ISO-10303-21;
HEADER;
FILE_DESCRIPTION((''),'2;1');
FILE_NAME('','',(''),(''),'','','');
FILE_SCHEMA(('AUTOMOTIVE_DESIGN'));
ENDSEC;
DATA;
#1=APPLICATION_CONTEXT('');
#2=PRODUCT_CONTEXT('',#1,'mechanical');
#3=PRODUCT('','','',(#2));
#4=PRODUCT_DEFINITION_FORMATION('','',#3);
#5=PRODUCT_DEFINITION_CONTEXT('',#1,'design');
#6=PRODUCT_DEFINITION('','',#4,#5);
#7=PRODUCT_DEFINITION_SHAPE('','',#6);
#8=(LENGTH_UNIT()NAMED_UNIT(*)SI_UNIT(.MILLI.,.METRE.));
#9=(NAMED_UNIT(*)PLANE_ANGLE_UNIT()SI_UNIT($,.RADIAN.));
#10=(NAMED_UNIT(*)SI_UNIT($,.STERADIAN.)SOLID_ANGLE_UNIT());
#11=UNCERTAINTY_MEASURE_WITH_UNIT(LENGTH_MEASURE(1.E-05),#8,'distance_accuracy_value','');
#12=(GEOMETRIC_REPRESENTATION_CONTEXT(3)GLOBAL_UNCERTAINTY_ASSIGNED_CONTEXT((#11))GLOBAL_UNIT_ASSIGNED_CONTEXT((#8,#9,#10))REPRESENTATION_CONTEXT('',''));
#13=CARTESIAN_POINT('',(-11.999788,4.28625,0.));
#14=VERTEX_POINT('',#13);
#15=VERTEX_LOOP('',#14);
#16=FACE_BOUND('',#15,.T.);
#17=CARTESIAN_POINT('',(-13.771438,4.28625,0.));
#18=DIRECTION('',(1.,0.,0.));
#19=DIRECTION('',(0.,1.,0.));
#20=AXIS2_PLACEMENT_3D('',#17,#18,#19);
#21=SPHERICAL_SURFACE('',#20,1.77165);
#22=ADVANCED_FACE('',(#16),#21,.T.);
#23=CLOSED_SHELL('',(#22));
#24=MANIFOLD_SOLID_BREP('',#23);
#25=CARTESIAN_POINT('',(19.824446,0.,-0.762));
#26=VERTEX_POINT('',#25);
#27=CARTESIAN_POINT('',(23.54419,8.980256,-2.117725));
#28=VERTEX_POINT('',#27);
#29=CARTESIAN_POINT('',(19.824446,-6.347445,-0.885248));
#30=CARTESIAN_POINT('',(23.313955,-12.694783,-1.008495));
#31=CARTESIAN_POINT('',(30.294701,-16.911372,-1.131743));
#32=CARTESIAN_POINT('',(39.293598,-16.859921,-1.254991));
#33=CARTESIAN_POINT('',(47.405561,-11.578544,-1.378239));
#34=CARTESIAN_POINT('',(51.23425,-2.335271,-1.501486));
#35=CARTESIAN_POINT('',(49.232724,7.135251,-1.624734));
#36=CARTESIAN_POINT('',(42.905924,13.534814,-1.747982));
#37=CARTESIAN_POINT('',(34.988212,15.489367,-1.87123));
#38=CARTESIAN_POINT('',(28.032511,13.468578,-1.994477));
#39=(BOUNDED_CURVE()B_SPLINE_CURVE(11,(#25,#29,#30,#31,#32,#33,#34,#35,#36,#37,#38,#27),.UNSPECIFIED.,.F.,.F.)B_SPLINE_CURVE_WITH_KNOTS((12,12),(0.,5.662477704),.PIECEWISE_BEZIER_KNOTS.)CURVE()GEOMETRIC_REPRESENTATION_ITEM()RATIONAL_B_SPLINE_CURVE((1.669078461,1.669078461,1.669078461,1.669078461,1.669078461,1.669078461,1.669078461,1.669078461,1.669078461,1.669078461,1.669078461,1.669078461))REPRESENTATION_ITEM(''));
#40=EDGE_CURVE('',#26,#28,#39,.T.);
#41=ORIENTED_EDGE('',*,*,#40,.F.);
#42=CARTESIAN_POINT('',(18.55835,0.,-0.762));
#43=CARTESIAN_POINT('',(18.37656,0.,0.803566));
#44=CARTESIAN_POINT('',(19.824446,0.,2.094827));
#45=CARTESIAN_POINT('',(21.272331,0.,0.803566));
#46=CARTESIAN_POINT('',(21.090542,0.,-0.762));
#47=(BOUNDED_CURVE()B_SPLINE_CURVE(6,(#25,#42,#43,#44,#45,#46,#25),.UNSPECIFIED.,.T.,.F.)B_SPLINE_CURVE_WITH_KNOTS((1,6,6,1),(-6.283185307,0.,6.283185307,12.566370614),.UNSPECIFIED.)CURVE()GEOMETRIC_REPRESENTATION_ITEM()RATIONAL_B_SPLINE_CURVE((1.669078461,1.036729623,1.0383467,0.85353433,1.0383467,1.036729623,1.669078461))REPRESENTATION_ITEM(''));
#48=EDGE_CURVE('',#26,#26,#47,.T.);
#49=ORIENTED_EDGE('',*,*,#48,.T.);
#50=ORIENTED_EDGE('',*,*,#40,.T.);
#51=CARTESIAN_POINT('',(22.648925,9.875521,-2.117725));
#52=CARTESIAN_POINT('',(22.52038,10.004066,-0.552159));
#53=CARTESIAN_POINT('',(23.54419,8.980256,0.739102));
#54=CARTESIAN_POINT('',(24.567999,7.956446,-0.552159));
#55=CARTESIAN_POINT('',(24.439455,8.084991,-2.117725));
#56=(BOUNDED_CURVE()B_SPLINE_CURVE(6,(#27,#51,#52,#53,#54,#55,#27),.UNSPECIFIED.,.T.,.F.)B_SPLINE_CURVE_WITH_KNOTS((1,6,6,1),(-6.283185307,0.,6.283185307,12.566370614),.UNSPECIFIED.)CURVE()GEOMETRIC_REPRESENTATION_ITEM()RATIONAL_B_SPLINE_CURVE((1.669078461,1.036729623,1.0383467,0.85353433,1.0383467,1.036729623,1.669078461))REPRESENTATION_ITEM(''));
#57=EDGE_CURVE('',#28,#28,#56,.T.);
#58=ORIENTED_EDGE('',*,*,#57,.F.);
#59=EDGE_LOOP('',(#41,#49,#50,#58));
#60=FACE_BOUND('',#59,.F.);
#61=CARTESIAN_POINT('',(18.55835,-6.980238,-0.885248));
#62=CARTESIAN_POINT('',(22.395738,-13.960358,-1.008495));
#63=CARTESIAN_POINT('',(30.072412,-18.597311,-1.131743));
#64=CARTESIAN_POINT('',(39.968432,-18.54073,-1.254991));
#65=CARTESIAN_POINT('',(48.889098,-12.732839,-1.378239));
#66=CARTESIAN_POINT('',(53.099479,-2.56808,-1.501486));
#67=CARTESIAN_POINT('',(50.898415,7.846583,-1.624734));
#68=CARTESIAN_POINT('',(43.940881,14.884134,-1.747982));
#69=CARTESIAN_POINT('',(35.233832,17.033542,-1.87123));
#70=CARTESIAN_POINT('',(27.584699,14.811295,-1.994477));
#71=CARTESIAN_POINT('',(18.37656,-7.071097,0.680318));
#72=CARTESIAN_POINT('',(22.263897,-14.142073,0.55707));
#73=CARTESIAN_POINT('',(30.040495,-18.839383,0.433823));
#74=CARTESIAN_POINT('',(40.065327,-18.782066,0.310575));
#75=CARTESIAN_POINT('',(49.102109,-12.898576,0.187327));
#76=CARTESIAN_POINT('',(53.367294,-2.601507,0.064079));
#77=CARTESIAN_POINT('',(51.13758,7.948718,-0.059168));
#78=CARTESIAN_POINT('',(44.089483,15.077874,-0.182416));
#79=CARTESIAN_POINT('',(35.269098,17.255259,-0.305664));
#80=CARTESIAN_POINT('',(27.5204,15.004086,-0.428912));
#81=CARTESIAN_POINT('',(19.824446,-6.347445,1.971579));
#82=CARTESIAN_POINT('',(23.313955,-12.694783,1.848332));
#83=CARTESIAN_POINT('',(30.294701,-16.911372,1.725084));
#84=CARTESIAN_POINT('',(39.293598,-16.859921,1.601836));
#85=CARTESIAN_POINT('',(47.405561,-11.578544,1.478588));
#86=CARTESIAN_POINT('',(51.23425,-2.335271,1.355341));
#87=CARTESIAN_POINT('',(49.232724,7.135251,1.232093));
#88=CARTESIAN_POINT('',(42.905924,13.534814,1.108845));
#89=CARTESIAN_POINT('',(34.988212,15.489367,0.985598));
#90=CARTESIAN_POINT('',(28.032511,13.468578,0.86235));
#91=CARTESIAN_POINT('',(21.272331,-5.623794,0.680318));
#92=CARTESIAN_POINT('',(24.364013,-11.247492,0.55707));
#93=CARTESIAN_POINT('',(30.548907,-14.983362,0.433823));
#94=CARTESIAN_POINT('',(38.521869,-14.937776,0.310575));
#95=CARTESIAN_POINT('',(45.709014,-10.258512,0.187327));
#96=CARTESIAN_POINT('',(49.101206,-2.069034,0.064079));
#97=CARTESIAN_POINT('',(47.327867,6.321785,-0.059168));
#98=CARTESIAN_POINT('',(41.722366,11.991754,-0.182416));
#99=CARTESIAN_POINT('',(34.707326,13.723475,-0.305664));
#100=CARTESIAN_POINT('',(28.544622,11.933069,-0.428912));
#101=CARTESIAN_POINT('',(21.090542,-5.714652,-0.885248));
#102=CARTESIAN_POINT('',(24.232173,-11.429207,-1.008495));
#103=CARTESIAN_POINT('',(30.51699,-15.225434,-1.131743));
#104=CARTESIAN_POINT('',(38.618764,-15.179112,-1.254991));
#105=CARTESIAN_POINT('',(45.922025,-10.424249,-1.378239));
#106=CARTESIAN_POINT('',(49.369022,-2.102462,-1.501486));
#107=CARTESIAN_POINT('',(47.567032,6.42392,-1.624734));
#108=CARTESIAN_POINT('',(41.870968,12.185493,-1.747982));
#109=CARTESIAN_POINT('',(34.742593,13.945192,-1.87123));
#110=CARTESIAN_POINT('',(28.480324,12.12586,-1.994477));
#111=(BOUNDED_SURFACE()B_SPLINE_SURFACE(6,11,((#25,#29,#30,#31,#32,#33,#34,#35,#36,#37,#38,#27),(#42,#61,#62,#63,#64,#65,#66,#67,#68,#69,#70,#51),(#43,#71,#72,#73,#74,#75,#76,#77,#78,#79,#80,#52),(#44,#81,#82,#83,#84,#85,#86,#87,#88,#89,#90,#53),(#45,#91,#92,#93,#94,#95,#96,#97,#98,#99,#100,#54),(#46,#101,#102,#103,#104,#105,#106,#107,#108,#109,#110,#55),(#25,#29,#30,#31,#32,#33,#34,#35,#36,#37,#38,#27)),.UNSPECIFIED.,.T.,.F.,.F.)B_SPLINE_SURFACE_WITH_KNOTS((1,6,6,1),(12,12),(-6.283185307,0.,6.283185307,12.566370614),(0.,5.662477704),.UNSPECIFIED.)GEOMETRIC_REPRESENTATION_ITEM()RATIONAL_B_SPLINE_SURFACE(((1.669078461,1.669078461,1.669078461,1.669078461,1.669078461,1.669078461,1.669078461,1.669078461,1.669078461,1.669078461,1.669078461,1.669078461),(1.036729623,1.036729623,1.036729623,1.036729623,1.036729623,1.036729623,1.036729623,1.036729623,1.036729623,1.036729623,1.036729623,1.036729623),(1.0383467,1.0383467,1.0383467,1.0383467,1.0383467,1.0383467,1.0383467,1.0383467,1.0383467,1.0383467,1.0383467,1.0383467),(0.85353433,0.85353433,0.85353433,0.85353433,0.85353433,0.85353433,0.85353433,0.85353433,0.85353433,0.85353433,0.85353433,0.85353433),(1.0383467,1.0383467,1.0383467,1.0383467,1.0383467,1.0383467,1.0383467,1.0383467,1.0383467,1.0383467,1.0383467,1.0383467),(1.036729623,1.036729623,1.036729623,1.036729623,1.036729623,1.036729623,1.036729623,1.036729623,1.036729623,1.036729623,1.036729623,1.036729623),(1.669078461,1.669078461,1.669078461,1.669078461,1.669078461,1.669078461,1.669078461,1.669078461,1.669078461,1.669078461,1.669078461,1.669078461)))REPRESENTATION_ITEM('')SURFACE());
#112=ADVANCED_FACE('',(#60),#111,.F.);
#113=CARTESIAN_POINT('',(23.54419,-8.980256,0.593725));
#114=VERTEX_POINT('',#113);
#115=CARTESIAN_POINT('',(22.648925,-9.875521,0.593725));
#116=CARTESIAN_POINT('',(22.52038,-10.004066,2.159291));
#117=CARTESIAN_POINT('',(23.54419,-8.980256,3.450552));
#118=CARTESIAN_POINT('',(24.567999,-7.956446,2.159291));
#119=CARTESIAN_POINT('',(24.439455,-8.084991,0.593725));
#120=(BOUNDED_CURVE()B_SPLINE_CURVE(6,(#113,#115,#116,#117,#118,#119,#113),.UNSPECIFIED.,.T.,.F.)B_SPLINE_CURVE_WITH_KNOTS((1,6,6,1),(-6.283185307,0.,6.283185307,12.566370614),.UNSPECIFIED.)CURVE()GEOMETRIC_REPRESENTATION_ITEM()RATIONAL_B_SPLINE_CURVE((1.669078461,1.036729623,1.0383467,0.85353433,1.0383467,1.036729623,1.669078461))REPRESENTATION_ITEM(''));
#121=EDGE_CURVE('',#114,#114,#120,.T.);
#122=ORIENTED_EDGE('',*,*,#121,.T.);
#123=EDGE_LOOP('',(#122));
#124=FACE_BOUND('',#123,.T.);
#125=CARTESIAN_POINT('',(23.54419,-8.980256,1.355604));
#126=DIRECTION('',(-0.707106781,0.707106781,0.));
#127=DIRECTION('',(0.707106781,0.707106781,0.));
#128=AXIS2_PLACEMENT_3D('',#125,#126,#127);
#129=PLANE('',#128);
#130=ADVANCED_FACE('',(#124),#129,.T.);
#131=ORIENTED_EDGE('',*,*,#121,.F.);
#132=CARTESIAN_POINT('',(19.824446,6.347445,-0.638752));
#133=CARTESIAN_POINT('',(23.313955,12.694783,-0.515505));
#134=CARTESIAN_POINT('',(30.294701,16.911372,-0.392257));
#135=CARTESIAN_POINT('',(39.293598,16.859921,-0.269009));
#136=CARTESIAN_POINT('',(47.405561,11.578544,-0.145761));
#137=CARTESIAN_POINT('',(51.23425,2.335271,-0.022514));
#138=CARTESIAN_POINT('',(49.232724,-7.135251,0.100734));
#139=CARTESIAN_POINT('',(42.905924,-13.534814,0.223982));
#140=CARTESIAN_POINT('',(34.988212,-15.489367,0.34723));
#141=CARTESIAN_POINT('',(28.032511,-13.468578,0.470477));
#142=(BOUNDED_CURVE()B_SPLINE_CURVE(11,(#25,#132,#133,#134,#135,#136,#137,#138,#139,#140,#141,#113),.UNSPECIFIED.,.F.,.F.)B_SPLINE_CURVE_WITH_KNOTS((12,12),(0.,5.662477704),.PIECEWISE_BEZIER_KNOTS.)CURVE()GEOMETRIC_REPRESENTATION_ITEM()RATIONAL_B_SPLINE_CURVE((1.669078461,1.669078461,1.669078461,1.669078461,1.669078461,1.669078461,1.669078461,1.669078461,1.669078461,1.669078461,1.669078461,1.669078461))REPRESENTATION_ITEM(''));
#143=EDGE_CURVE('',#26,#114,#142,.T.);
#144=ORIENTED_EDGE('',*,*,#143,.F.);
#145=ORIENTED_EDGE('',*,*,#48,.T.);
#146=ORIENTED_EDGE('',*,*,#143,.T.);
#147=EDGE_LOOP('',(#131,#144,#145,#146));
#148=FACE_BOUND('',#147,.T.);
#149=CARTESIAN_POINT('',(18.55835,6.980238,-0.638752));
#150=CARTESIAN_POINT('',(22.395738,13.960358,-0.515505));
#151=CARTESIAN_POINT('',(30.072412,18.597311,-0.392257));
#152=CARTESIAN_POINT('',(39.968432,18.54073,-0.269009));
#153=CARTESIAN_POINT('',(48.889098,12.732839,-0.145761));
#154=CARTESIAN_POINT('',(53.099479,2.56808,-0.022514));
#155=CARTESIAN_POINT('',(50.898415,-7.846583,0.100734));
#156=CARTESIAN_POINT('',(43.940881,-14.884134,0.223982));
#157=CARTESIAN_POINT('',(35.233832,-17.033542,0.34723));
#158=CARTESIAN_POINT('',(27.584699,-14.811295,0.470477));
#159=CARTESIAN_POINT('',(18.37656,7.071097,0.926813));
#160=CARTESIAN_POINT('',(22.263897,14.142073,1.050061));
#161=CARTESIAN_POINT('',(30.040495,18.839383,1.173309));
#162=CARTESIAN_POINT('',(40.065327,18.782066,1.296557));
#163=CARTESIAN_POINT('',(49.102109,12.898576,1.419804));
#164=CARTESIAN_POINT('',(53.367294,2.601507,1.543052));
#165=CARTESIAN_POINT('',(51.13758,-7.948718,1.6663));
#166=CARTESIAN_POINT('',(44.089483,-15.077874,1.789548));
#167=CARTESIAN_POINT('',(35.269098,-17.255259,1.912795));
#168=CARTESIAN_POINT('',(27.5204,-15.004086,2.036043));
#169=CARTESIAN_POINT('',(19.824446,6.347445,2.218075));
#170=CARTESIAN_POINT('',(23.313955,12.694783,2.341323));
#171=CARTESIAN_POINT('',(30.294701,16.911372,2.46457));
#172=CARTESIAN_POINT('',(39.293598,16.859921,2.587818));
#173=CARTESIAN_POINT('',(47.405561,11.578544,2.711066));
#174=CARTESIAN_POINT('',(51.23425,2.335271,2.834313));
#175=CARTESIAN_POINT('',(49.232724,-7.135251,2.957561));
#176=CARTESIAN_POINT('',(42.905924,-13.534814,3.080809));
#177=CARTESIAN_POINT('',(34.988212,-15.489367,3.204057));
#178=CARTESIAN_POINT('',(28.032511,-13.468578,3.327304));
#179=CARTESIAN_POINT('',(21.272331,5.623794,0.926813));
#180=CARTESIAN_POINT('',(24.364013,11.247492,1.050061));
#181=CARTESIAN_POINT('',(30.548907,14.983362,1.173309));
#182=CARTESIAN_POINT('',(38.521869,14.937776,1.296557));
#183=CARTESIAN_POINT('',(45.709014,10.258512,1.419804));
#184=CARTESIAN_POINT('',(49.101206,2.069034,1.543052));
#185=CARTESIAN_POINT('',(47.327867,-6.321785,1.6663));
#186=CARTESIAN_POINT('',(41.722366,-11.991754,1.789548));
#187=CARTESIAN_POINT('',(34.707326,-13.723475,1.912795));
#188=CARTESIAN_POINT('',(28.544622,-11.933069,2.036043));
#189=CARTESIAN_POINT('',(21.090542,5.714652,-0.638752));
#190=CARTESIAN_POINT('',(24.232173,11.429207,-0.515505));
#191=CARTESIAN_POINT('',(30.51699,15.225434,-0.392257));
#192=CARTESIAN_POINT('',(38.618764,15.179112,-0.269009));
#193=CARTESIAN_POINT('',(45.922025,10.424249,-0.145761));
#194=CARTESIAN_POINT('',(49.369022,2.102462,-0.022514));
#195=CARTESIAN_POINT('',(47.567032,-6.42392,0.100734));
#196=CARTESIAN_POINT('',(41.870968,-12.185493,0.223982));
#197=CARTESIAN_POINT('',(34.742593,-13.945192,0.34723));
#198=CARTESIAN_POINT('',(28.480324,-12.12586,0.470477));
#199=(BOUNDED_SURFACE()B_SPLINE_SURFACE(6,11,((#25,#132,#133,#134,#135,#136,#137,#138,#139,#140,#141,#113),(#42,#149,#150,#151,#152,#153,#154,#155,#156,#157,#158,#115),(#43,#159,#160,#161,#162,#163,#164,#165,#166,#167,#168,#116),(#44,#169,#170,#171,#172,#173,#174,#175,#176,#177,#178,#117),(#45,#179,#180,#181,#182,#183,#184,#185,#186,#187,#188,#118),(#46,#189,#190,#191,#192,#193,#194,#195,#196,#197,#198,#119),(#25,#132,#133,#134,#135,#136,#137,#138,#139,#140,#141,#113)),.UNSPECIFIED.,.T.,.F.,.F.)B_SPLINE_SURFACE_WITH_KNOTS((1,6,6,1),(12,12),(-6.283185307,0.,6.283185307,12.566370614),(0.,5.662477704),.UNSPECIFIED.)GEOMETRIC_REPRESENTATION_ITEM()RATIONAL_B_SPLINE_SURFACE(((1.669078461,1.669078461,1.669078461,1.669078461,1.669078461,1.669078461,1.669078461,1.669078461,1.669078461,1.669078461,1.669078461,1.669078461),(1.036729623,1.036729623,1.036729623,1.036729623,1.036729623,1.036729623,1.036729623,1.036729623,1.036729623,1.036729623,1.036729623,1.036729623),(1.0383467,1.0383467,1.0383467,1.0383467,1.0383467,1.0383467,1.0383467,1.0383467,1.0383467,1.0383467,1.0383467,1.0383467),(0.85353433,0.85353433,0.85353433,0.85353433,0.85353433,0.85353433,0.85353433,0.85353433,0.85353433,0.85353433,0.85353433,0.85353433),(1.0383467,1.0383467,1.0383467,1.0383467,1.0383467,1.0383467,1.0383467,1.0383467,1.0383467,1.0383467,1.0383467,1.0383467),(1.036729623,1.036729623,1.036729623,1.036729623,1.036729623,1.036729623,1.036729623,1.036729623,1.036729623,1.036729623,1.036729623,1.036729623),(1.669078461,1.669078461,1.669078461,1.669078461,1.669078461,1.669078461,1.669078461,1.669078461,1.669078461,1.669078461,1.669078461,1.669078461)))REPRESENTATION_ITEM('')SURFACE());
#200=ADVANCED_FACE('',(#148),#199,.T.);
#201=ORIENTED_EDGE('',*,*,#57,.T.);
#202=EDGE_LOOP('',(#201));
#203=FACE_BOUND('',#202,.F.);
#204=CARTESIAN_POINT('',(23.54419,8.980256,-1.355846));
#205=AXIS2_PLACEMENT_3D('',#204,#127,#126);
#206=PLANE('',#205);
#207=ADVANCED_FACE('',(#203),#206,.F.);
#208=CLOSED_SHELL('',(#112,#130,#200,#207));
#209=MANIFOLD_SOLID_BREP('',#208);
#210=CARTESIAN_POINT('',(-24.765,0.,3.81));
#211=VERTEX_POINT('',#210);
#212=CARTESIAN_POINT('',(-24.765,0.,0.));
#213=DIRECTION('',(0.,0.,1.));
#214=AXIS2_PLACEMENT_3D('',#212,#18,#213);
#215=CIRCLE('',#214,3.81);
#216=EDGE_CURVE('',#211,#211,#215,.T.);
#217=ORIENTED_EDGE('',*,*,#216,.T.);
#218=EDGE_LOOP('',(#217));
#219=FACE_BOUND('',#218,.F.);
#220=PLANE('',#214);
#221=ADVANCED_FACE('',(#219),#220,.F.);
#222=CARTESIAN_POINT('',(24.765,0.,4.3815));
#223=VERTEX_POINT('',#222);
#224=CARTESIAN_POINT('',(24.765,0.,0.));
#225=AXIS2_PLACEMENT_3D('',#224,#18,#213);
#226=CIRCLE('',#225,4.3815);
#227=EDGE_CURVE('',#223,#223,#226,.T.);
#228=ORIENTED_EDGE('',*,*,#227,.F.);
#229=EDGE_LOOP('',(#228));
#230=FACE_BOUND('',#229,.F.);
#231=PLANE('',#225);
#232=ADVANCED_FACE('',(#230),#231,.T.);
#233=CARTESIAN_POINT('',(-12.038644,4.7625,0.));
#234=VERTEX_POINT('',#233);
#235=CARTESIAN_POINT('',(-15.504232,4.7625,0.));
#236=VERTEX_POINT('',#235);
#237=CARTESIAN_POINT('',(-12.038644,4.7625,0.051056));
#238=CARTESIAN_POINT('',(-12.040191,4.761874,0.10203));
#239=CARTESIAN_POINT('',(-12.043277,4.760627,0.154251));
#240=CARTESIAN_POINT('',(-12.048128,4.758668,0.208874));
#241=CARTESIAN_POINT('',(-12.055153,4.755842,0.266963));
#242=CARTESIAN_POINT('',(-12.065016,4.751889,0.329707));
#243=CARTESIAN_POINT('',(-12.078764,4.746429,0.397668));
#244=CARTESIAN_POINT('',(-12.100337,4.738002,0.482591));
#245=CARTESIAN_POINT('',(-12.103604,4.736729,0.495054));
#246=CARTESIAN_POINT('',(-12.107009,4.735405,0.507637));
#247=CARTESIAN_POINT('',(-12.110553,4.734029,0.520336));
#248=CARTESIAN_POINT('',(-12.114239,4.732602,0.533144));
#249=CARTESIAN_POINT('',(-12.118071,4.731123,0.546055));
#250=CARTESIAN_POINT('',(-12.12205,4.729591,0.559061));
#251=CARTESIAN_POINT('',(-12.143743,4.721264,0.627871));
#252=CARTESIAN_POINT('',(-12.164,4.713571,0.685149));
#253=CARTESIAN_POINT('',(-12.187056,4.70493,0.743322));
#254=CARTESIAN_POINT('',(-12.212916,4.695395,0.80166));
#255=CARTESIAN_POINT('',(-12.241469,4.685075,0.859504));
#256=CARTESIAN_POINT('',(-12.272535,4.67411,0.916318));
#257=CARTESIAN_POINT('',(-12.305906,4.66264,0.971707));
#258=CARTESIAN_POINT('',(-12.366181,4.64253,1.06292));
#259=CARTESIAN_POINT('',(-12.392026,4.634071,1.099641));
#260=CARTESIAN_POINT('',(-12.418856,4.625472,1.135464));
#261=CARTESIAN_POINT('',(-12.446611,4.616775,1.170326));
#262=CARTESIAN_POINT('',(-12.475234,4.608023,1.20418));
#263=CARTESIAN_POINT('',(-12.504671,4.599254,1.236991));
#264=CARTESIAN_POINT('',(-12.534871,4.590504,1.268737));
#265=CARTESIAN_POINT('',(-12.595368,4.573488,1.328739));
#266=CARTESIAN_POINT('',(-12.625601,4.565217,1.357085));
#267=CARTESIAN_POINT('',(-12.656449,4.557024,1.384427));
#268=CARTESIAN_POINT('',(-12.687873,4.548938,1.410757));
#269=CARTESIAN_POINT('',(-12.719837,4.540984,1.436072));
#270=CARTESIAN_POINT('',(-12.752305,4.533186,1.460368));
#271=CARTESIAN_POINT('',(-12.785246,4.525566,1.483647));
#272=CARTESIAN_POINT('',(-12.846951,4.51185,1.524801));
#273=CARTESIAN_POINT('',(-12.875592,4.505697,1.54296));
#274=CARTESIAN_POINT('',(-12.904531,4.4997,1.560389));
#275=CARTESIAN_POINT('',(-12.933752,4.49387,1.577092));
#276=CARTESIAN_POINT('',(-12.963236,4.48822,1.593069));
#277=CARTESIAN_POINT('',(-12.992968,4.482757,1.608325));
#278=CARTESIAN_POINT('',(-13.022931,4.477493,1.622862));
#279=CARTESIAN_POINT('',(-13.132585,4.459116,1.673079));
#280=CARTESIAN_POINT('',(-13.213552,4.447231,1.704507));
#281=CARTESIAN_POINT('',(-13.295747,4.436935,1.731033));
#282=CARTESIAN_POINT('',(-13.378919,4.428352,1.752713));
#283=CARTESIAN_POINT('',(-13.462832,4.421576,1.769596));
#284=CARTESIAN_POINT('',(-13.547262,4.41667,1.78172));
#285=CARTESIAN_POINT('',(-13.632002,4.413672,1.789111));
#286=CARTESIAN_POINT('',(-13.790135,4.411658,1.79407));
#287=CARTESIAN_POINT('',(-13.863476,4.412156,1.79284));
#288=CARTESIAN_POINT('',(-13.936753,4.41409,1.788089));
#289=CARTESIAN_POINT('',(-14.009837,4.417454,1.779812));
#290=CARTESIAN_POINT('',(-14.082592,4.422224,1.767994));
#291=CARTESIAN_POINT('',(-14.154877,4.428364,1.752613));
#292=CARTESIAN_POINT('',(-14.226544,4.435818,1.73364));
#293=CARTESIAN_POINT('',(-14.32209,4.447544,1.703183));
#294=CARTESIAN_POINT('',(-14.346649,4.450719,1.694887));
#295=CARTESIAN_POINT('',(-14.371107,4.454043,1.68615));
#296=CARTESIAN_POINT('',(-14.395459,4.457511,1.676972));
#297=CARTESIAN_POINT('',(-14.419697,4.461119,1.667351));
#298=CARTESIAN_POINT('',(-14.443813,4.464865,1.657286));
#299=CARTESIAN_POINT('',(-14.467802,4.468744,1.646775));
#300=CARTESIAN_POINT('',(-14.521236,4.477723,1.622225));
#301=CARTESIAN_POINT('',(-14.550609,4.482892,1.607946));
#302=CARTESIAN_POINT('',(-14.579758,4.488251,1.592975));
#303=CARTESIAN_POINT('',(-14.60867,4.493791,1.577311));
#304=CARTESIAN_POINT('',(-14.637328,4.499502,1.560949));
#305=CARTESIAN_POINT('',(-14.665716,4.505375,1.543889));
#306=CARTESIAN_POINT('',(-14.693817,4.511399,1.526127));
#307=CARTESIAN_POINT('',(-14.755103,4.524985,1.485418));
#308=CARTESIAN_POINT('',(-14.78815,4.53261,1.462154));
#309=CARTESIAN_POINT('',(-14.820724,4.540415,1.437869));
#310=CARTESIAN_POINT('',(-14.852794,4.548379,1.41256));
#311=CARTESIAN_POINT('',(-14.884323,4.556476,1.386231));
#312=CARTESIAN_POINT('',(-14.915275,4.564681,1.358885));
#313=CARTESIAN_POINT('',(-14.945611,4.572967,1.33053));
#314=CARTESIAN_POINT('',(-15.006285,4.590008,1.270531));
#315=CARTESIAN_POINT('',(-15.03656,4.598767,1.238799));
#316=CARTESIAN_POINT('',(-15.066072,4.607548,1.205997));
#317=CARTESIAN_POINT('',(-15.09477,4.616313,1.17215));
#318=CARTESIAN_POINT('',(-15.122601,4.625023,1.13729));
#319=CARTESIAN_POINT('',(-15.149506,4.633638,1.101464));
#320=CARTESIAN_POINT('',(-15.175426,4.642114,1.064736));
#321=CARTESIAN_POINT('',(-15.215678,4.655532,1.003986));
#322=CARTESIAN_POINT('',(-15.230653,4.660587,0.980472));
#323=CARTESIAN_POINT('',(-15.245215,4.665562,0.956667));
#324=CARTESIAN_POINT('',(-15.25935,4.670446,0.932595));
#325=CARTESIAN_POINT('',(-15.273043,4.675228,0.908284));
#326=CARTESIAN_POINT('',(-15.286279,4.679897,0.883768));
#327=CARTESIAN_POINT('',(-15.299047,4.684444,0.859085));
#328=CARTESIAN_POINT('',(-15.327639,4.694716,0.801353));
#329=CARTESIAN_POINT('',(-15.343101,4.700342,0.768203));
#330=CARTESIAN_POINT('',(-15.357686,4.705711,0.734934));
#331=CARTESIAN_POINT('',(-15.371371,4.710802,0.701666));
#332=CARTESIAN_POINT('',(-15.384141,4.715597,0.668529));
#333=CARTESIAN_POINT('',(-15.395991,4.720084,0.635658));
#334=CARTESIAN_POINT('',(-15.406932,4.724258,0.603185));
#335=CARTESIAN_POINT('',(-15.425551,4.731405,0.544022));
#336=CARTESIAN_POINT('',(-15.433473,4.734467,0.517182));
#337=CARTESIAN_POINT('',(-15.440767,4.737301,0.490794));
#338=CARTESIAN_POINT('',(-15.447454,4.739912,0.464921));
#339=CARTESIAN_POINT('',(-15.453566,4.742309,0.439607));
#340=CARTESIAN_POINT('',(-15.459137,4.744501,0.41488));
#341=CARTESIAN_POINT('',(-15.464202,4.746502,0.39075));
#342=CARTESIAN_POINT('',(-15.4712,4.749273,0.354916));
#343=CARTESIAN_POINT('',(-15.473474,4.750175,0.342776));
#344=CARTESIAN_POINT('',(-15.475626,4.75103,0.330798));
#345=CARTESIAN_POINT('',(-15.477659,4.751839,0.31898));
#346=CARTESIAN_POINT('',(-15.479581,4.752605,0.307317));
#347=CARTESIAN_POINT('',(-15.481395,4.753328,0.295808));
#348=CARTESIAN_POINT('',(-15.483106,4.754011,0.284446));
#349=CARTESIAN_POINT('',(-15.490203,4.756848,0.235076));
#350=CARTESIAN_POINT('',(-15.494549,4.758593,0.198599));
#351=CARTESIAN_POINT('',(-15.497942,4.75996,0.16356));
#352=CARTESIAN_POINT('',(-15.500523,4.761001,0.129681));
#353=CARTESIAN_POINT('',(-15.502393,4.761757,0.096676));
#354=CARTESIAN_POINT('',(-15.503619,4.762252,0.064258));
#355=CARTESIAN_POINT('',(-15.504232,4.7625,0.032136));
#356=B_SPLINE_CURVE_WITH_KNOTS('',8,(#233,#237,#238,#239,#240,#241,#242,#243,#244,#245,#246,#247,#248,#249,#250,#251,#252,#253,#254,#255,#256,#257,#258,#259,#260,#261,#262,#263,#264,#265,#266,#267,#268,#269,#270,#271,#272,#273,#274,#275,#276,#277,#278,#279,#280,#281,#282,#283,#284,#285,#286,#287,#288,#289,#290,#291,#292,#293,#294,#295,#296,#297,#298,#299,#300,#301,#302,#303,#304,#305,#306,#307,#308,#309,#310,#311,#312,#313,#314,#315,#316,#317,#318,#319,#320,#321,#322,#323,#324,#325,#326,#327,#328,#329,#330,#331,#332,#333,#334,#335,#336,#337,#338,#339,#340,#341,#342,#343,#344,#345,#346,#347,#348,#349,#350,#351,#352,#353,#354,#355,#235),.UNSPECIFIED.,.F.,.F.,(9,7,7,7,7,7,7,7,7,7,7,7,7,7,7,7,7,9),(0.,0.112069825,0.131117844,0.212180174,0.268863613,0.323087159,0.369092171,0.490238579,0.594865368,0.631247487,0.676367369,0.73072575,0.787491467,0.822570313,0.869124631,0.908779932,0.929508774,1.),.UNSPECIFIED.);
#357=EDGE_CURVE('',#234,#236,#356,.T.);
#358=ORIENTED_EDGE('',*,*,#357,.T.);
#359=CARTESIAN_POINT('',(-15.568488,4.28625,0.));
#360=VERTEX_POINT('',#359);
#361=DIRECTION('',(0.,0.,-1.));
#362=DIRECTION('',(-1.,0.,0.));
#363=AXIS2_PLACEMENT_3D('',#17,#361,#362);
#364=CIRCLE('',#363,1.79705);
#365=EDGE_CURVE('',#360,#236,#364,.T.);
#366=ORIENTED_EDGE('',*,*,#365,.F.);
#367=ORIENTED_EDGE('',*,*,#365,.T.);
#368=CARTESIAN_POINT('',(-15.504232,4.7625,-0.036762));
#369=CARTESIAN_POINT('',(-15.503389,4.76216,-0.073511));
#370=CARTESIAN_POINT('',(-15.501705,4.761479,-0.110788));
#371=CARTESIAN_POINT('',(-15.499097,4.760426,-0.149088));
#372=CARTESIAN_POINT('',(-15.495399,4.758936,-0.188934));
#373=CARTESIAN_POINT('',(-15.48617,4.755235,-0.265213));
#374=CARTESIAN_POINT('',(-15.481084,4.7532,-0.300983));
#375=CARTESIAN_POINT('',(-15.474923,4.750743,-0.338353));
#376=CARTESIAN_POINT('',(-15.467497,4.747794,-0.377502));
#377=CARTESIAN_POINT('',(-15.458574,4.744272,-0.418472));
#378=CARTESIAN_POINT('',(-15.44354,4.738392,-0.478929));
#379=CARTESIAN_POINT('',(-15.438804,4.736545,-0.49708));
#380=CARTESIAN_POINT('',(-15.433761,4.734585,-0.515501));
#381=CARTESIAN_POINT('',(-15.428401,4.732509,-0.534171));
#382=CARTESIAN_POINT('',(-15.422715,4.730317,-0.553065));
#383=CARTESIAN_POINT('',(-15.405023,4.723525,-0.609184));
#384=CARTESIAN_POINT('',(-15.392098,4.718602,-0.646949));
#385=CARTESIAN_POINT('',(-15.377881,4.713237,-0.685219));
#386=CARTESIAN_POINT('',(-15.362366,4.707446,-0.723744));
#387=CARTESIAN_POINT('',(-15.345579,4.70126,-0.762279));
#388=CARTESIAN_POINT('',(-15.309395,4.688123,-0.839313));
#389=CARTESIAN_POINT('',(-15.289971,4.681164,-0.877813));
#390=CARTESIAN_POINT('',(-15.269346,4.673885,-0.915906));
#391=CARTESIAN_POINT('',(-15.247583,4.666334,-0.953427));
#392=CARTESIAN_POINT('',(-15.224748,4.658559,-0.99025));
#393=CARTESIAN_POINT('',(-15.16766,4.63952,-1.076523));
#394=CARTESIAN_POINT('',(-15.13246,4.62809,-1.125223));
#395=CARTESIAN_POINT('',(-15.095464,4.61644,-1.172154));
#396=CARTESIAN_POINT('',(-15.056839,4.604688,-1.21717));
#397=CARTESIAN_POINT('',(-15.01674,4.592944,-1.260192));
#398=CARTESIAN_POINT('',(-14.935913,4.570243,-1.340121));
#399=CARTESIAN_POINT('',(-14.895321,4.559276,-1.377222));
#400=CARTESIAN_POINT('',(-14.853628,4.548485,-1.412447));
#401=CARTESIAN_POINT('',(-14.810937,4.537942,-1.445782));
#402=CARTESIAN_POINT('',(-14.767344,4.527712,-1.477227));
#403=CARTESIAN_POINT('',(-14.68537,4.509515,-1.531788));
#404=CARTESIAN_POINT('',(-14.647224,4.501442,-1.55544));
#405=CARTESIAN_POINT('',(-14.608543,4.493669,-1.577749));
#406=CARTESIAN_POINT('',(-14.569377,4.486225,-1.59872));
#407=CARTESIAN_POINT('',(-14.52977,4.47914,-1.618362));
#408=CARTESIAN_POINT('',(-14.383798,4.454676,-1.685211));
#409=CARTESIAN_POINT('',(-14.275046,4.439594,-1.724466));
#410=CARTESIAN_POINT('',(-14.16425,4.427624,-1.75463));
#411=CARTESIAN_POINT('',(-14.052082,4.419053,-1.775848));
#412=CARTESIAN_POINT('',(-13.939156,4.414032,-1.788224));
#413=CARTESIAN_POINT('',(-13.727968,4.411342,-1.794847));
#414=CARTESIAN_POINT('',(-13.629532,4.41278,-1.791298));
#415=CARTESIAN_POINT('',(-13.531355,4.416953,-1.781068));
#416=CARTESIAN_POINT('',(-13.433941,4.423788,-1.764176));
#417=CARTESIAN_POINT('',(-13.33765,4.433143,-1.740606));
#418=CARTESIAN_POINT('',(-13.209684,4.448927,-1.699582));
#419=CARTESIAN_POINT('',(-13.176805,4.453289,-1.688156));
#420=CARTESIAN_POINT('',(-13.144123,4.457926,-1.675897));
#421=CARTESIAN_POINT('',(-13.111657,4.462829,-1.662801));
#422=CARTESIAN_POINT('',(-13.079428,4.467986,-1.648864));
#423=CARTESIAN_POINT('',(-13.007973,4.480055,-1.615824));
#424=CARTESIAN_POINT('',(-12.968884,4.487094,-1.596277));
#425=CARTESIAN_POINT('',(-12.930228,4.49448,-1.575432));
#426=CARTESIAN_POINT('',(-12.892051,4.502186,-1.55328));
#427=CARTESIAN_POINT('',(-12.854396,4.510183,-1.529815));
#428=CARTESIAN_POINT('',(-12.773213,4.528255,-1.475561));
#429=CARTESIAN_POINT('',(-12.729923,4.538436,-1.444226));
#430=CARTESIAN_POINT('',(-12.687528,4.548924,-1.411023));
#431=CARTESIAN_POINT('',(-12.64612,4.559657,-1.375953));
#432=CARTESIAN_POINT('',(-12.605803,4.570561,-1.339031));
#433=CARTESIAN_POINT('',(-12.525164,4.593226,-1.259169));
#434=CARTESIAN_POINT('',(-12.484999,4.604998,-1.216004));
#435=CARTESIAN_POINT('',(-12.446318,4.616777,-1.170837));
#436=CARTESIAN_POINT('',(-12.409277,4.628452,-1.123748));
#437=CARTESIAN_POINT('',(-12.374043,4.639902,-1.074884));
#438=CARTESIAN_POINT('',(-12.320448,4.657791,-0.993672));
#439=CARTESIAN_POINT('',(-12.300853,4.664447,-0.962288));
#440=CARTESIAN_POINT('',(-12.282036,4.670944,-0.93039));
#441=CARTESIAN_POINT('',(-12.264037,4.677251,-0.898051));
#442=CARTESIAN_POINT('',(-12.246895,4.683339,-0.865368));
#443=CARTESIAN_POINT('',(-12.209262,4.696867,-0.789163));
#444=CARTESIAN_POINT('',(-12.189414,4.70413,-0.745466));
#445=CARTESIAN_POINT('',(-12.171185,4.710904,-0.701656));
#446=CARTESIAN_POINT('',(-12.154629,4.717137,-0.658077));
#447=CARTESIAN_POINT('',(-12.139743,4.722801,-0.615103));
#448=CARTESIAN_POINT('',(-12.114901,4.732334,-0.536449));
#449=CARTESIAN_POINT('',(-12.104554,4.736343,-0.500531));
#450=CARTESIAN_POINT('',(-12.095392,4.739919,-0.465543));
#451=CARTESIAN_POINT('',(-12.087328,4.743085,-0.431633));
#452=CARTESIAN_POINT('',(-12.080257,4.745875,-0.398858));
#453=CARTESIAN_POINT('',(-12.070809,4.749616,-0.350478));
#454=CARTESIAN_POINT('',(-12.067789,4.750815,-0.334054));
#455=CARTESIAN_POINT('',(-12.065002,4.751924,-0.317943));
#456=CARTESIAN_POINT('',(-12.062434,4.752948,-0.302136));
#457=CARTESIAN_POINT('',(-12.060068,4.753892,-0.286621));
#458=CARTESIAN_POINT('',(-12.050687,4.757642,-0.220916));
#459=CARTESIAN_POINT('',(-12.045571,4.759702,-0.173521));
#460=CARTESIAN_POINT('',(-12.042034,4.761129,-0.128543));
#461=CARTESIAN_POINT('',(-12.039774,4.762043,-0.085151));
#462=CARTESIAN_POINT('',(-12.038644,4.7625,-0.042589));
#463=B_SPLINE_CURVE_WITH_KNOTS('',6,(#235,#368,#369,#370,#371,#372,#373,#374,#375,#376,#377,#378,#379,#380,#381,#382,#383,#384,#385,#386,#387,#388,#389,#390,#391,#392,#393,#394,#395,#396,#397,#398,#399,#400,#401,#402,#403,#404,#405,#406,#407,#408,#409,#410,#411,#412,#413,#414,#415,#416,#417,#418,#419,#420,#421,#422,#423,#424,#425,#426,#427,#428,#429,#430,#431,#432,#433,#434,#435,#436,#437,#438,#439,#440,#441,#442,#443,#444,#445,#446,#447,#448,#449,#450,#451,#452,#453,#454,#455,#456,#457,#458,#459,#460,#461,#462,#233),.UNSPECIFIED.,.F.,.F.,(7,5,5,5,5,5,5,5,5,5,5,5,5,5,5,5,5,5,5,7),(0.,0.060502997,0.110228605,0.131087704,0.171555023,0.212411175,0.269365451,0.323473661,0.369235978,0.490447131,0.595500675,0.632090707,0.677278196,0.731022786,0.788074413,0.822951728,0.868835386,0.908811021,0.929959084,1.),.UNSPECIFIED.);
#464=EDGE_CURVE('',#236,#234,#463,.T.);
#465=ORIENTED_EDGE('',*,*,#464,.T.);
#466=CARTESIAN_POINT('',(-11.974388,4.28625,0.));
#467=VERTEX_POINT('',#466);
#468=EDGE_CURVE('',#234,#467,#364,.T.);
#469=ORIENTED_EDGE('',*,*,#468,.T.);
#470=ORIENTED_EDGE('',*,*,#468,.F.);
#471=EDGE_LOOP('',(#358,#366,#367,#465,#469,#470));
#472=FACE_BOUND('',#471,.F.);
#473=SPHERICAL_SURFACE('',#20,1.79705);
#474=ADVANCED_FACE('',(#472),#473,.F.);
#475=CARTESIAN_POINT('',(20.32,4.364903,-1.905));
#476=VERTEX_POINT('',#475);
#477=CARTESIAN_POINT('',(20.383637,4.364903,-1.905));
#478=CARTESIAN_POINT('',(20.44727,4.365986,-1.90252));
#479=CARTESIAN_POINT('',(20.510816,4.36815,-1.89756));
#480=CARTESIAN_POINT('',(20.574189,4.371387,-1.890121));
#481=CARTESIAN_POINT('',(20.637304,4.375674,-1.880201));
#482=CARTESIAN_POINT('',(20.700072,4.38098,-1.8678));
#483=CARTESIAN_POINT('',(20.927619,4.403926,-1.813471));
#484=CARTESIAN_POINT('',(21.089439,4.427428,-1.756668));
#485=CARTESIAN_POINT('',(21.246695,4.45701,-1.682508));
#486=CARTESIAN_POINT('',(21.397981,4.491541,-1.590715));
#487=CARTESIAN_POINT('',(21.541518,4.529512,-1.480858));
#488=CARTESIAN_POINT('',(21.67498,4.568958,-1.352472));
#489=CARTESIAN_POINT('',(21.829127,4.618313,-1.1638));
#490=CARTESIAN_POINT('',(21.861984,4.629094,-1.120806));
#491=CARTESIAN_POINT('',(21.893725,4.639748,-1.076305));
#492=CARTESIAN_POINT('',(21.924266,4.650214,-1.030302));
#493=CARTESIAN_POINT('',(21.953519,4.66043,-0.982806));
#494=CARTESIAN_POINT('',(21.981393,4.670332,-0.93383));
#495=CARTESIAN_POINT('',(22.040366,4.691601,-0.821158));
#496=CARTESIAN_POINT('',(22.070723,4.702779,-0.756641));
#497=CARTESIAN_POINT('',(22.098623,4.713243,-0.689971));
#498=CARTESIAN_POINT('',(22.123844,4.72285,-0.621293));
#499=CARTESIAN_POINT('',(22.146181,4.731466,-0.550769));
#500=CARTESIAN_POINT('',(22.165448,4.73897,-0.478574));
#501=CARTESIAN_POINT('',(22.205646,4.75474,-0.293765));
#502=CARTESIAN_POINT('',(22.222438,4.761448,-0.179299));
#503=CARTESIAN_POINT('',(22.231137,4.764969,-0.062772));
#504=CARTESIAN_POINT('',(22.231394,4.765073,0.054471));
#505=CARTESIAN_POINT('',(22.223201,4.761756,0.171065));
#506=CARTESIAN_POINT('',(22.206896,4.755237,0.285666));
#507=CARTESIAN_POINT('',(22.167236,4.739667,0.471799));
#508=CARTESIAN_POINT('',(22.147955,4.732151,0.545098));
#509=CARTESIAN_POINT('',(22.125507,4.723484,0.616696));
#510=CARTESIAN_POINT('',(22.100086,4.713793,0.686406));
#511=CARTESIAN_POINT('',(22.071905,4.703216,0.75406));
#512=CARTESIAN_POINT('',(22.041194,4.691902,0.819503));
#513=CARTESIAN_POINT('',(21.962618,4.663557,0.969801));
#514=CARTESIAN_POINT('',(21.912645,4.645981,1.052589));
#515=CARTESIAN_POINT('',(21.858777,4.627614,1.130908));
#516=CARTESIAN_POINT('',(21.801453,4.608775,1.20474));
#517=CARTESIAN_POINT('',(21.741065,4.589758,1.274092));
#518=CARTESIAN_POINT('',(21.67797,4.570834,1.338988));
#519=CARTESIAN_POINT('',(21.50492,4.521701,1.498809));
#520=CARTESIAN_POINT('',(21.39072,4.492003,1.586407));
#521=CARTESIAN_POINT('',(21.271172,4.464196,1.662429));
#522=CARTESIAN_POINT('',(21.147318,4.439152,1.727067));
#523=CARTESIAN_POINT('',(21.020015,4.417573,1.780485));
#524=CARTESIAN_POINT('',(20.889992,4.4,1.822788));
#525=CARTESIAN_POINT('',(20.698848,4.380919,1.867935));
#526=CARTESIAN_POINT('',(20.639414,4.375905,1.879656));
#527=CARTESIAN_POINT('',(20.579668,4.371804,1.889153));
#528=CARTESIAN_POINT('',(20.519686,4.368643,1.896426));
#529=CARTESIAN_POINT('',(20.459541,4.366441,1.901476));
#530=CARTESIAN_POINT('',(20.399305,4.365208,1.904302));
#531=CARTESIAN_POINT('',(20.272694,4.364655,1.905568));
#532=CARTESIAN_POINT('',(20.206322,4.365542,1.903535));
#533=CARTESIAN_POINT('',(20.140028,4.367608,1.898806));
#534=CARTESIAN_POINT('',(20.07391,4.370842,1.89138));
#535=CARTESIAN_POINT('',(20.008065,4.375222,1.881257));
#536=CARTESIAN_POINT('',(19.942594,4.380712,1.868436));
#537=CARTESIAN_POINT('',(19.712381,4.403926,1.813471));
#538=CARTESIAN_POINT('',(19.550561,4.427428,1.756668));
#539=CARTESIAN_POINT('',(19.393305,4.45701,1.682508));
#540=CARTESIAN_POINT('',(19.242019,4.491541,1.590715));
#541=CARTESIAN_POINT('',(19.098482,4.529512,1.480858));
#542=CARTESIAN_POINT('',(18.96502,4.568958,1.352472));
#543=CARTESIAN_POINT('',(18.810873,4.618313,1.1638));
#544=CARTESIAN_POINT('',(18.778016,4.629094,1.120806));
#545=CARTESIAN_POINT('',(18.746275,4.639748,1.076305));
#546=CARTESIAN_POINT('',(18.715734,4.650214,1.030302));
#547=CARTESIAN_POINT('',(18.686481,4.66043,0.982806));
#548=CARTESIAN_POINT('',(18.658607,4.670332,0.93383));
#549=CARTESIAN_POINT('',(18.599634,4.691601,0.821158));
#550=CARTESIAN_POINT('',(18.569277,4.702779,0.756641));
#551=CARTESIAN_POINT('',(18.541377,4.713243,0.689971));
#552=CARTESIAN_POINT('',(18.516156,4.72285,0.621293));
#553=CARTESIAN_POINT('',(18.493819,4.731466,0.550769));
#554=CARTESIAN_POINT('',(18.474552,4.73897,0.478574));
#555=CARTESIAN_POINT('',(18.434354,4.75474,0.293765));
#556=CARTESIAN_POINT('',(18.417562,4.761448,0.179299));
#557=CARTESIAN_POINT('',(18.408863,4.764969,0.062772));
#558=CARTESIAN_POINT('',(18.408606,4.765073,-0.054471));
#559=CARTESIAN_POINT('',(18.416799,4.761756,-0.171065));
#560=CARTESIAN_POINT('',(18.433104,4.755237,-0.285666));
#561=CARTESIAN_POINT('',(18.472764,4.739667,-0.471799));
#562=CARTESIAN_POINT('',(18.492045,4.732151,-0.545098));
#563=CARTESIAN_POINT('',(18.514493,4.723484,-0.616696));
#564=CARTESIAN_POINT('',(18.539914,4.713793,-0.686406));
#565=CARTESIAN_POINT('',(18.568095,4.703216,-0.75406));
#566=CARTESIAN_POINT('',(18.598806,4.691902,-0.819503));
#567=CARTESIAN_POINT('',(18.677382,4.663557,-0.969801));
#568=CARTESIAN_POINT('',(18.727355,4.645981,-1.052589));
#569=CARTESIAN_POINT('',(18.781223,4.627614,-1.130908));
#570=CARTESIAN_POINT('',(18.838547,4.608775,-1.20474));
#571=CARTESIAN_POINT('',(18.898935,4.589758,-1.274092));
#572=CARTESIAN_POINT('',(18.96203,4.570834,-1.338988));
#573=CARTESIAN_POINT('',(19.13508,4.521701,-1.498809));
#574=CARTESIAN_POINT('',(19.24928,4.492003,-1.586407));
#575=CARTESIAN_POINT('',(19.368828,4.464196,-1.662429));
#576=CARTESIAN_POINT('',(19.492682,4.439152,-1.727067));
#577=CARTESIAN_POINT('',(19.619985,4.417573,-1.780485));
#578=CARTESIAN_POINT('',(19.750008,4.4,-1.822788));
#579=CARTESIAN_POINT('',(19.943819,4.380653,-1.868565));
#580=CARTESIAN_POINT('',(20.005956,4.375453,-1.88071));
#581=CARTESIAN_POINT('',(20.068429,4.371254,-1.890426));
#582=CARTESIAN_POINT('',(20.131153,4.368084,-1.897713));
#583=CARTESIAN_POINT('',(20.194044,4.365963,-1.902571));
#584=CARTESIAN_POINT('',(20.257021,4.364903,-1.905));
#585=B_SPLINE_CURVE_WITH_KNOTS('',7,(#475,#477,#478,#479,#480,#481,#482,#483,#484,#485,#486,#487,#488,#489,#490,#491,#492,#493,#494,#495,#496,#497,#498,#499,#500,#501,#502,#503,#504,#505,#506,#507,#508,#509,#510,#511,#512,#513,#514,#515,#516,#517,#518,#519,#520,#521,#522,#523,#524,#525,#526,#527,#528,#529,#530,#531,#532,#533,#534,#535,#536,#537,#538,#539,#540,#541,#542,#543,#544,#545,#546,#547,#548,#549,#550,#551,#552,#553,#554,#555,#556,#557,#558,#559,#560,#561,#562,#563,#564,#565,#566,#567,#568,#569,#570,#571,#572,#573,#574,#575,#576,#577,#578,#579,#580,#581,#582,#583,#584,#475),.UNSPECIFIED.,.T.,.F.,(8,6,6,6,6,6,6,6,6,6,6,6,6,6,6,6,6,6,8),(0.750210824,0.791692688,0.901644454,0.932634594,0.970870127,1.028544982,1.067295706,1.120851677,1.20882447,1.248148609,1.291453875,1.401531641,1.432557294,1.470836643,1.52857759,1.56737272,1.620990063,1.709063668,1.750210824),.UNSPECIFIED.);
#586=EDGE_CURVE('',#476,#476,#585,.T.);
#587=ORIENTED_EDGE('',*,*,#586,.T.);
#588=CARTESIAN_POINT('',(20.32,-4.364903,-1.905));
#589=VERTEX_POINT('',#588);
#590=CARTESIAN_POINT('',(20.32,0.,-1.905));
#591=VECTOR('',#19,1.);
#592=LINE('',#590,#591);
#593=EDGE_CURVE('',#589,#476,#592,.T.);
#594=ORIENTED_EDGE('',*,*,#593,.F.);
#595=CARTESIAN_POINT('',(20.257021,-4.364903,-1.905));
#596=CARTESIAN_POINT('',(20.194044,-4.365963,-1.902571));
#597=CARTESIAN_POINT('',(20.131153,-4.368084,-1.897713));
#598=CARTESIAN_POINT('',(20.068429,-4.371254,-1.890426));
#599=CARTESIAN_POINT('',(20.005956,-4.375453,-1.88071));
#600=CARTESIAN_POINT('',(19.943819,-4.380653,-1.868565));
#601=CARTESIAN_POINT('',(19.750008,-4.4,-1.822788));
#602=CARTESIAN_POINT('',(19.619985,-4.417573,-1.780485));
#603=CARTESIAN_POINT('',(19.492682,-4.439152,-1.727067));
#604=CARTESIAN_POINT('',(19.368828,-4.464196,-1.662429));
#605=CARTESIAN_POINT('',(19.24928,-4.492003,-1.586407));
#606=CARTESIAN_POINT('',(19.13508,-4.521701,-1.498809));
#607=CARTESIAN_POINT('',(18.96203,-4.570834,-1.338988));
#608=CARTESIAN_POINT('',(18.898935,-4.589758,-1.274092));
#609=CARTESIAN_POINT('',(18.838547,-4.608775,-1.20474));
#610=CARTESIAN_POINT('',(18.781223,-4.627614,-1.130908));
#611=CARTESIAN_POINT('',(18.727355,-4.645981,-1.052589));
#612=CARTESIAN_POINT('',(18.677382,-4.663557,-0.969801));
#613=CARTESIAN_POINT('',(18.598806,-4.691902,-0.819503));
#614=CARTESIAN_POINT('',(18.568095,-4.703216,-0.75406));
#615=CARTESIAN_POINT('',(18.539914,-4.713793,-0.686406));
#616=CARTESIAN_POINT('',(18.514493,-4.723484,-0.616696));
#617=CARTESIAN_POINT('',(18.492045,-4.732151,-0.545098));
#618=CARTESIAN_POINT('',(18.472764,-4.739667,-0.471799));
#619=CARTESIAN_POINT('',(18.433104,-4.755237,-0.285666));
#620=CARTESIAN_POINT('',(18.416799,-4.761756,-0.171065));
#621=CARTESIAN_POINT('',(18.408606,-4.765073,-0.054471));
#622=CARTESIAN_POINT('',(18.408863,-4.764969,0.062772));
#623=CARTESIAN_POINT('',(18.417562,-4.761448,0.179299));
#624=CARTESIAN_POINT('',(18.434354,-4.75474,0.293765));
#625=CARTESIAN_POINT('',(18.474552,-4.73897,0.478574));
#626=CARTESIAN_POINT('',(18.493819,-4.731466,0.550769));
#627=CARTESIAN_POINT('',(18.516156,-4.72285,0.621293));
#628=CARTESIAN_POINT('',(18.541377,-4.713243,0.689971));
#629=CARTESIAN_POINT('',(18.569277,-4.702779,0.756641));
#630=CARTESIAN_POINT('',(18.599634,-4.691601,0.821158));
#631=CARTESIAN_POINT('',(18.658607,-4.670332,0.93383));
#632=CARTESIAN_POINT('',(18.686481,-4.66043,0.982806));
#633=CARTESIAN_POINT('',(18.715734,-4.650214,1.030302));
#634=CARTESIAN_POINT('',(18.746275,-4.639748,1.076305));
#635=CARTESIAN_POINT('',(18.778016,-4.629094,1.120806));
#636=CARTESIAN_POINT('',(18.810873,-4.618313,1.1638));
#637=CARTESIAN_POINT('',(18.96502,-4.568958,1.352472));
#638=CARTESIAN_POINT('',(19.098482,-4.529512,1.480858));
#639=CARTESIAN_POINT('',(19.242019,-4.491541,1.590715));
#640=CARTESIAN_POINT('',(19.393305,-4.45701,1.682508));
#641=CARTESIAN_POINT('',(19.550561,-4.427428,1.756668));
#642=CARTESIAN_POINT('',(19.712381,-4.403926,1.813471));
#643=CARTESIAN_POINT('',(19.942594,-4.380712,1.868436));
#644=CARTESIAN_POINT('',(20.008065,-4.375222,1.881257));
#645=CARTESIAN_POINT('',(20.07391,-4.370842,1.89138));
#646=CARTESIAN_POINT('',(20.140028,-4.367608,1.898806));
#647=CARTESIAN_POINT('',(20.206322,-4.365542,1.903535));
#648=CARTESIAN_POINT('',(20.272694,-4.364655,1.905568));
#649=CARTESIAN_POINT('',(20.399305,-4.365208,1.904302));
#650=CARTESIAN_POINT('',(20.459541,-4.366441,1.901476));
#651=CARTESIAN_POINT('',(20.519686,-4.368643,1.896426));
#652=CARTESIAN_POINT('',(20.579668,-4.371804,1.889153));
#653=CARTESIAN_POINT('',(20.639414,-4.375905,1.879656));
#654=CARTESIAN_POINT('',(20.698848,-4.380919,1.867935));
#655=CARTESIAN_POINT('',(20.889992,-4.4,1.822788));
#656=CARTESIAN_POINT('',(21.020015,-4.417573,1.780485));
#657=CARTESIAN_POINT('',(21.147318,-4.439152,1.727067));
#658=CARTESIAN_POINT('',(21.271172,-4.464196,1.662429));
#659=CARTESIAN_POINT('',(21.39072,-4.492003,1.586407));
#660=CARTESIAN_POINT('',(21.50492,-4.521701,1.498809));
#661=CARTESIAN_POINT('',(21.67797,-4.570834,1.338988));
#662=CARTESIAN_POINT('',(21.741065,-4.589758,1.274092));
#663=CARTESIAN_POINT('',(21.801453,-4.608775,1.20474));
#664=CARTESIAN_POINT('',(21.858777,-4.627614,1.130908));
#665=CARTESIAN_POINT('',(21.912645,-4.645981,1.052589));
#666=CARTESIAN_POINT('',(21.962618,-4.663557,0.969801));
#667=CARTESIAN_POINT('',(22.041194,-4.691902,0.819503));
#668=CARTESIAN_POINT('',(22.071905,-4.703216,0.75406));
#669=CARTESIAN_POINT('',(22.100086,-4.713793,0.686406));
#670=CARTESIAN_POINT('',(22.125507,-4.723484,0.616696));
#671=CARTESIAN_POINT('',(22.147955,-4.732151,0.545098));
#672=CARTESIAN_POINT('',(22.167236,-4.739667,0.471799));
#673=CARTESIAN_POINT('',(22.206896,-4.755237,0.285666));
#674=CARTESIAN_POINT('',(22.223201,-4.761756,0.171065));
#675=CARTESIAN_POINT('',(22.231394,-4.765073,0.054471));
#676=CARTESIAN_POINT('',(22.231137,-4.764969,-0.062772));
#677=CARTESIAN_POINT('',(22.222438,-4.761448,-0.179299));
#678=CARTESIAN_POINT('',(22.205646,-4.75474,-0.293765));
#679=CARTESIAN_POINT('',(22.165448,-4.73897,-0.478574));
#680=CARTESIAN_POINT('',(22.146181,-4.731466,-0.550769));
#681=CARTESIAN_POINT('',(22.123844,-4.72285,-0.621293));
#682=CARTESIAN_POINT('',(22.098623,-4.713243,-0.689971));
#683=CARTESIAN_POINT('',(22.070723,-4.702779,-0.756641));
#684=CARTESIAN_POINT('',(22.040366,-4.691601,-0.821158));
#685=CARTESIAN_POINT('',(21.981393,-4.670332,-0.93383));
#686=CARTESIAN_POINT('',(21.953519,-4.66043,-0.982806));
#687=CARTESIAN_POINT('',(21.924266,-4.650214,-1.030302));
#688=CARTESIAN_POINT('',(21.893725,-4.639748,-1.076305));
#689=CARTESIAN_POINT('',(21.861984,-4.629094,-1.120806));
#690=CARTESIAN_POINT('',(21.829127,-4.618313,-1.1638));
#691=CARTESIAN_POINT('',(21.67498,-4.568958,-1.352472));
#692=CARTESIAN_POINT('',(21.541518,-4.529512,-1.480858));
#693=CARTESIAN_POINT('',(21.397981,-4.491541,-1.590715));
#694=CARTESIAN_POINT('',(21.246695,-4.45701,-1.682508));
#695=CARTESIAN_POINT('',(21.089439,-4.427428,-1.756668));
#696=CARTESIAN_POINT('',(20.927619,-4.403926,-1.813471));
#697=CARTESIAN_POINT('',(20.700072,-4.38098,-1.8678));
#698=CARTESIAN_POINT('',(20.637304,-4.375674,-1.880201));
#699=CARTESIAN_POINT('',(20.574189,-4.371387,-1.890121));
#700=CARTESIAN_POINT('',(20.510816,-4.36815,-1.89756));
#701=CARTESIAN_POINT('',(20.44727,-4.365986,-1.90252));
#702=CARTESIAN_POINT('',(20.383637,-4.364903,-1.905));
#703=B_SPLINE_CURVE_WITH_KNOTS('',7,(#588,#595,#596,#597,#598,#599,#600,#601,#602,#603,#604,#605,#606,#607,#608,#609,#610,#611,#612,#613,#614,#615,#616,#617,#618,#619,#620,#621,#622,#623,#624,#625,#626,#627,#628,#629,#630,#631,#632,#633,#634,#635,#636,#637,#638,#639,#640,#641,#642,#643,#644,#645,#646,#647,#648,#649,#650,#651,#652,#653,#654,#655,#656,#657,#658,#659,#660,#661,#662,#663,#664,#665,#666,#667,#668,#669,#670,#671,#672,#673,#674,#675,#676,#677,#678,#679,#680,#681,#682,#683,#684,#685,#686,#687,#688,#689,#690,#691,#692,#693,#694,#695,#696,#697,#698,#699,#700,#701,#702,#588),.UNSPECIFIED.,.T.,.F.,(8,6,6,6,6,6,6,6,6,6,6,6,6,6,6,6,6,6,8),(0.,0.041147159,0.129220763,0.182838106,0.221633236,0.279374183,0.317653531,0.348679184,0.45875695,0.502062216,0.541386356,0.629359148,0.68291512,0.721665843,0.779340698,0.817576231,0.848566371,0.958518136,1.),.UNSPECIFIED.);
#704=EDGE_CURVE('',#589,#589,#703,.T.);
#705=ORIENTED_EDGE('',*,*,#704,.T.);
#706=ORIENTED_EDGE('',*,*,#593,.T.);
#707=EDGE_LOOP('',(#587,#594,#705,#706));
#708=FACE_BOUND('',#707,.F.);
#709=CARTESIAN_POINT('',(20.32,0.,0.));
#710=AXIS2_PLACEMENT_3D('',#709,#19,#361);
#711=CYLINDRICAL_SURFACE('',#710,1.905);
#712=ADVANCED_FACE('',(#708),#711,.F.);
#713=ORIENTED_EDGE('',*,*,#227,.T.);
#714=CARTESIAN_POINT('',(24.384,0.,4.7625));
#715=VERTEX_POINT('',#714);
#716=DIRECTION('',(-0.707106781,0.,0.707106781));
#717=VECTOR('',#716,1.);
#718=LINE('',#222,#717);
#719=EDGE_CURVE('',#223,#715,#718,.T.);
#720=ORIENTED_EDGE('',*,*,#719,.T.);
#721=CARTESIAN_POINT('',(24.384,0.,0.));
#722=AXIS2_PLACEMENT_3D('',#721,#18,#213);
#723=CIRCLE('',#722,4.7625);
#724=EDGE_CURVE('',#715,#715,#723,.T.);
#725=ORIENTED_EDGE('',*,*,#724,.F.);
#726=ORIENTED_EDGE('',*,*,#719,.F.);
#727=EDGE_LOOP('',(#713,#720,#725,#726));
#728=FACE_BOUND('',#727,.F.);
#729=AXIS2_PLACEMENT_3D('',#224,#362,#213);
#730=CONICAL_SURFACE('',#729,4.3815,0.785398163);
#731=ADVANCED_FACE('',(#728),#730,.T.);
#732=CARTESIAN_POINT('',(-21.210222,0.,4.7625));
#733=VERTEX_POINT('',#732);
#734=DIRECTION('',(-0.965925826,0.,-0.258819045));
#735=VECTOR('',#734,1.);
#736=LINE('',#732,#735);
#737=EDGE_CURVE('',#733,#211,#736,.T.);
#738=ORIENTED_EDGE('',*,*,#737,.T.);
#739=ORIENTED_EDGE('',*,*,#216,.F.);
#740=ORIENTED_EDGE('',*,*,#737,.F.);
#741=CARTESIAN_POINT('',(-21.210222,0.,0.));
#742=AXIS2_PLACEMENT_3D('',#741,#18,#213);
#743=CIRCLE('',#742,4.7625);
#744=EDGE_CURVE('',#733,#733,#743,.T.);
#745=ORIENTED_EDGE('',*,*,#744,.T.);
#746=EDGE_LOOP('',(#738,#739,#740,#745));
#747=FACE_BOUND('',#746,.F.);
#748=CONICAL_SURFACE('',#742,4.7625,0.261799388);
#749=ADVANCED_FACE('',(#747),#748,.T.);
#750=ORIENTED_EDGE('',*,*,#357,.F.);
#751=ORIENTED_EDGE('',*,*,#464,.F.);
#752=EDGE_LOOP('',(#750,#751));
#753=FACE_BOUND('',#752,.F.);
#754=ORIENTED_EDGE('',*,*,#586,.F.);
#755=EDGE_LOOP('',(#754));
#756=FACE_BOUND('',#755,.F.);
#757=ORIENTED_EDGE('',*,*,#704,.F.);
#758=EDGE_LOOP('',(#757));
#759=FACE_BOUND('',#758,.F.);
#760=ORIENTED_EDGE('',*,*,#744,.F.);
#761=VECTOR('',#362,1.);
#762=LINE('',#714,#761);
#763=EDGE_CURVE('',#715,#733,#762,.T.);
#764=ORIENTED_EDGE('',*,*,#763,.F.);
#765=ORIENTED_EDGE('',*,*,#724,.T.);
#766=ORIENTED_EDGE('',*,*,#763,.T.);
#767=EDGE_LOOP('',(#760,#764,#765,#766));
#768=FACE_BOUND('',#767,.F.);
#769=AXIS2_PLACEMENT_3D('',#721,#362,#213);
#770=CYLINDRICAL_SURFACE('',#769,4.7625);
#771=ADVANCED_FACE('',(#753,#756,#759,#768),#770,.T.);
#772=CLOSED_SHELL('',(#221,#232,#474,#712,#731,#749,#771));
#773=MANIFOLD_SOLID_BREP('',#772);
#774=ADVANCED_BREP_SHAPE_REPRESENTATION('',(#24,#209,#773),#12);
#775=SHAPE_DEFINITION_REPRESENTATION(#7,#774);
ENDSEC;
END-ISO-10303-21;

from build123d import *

# Parameters (mm, degrees)
SKETCH4_W          = 1.905
SKETCH4_H          = 9.525
SWEEP1_PITCH       = 1.5494
SWEEP1_HEIGHT      = 1.355725
SWEEP1_RADIUS      = 13.462
SKETCH6_R          = 0.762
SWEEP2_PITCH       = 1.5494
SWEEP2_HEIGHT      = 1.355725
SWEEP2_RADIUS      = 13.462
SWEEP2_START_ANGLE = -180
SKETCH6_2_R        = 0.762


with BuildPart() as part:
    # Sketch1 → Revolve1 (revolve)
    with BuildSketch(Plane.XY, mode=Mode.PRIVATE) as revolve1_sk:
        Polygon((24.765, 4.3815), (24.384, 4.7625), (-21.210221606, 4.7625), (-24.765, 3.81), (-24.765, 0), (24.765, 0), align=None)
    revolve(revolve1_sk.sketch.rotate(Axis((24.765, 0, 0), (1, 0, 0)), 90), axis=Axis((24.765, 0, 0), (1, 0, 0)))

    # Sketch2 → Cut-Revolve1 (revolve, cut)
    with BuildSketch(Plane.XY):
        with BuildLine():
            Line((-11.974387711, 4.28625), (-15.568487711, 4.28625))
            ThreePointArc((-15.568487711, 4.28625), (-13.771437711, 6.0833), (-11.974387711, 4.28625))
        make_face()
    revolve(axis=Axis((-11.974387711, 4.28625, 0), (1, 0, 0)), mode=Mode.SUBTRACT)

    # Sketch4 → Cut-Revolve2 (revolve, cut)
    with BuildSketch(Plane.XY, mode=Mode.PRIVATE) as cut_revolve2_sk:
        with Locations((21.2725, 0)):
            Rectangle(SKETCH4_W, SKETCH4_H)
    revolve(cut_revolve2_sk.sketch.rotate(Axis((20.32, -4.7625, 0), (0, 1, 0)), 90), axis=Axis((20.32, -4.7625, 0), (0, 1, 0)), mode=Mode.SUBTRACT)


with BuildPart() as body_2:
    # Sketch3 → Revolve2 (revolve)
    with BuildSketch(Plane.XY):
        with BuildLine():
            Line((-11.999787711, 4.28625), (-15.543087711, 4.28625))
            ThreePointArc((-15.543087711, 4.28625), (-13.771437711, 6.0579), (-11.999787711, 4.28625))
        make_face()
    revolve(axis=Axis((-11.999787711, 4.28625, 0), (1, 0, 0)))


with BuildPart() as body_3:
    # Sweep1: sweep along a helix
    with BuildLine() as sweep1_path:
        Helix(SWEEP1_PITCH, SWEEP1_HEIGHT, SWEEP1_RADIUS, center=(32.524445847, 0, 0), direction=(0, 0, -1), lefthand=True)
    # Sketch6 → Sweep1 (sweep)
    with BuildSketch(Plane(origin=(114.003847968, 0, 0), x_dir=(0, 0, -1), z_dir=(0, 1, 0))):
        with Locations((0, 94.179402121)):
            Circle(SKETCH6_R)
    sweep(path=sweep1_path.line, is_frenet=True)

    # Sweep2: sweep along a helix
    with BuildLine() as sweep2_path:
        add(Helix(SWEEP2_PITCH, SWEEP2_HEIGHT, SWEEP2_RADIUS, center=(32.524445847, 0, 0), direction=(0, 0, 1), lefthand=True, mode=Mode.PRIVATE).rotate(Axis((32.524445847, 0, 0), (0, 0, 1)), SWEEP2_START_ANGLE))
    # Sketch6<2> → Sweep2 (sweep)
    with BuildSketch(Plane(origin=(114.003847968, 0, 0), x_dir=(0, 0, -1), z_dir=(0, 1, 0))):
        with Locations((0, 94.179402121)):
            Circle(SKETCH6_2_R)
    sweep(path=sweep2_path.line, is_frenet=True)


solid = Compound([part.part, body_2.part, body_3.part])
